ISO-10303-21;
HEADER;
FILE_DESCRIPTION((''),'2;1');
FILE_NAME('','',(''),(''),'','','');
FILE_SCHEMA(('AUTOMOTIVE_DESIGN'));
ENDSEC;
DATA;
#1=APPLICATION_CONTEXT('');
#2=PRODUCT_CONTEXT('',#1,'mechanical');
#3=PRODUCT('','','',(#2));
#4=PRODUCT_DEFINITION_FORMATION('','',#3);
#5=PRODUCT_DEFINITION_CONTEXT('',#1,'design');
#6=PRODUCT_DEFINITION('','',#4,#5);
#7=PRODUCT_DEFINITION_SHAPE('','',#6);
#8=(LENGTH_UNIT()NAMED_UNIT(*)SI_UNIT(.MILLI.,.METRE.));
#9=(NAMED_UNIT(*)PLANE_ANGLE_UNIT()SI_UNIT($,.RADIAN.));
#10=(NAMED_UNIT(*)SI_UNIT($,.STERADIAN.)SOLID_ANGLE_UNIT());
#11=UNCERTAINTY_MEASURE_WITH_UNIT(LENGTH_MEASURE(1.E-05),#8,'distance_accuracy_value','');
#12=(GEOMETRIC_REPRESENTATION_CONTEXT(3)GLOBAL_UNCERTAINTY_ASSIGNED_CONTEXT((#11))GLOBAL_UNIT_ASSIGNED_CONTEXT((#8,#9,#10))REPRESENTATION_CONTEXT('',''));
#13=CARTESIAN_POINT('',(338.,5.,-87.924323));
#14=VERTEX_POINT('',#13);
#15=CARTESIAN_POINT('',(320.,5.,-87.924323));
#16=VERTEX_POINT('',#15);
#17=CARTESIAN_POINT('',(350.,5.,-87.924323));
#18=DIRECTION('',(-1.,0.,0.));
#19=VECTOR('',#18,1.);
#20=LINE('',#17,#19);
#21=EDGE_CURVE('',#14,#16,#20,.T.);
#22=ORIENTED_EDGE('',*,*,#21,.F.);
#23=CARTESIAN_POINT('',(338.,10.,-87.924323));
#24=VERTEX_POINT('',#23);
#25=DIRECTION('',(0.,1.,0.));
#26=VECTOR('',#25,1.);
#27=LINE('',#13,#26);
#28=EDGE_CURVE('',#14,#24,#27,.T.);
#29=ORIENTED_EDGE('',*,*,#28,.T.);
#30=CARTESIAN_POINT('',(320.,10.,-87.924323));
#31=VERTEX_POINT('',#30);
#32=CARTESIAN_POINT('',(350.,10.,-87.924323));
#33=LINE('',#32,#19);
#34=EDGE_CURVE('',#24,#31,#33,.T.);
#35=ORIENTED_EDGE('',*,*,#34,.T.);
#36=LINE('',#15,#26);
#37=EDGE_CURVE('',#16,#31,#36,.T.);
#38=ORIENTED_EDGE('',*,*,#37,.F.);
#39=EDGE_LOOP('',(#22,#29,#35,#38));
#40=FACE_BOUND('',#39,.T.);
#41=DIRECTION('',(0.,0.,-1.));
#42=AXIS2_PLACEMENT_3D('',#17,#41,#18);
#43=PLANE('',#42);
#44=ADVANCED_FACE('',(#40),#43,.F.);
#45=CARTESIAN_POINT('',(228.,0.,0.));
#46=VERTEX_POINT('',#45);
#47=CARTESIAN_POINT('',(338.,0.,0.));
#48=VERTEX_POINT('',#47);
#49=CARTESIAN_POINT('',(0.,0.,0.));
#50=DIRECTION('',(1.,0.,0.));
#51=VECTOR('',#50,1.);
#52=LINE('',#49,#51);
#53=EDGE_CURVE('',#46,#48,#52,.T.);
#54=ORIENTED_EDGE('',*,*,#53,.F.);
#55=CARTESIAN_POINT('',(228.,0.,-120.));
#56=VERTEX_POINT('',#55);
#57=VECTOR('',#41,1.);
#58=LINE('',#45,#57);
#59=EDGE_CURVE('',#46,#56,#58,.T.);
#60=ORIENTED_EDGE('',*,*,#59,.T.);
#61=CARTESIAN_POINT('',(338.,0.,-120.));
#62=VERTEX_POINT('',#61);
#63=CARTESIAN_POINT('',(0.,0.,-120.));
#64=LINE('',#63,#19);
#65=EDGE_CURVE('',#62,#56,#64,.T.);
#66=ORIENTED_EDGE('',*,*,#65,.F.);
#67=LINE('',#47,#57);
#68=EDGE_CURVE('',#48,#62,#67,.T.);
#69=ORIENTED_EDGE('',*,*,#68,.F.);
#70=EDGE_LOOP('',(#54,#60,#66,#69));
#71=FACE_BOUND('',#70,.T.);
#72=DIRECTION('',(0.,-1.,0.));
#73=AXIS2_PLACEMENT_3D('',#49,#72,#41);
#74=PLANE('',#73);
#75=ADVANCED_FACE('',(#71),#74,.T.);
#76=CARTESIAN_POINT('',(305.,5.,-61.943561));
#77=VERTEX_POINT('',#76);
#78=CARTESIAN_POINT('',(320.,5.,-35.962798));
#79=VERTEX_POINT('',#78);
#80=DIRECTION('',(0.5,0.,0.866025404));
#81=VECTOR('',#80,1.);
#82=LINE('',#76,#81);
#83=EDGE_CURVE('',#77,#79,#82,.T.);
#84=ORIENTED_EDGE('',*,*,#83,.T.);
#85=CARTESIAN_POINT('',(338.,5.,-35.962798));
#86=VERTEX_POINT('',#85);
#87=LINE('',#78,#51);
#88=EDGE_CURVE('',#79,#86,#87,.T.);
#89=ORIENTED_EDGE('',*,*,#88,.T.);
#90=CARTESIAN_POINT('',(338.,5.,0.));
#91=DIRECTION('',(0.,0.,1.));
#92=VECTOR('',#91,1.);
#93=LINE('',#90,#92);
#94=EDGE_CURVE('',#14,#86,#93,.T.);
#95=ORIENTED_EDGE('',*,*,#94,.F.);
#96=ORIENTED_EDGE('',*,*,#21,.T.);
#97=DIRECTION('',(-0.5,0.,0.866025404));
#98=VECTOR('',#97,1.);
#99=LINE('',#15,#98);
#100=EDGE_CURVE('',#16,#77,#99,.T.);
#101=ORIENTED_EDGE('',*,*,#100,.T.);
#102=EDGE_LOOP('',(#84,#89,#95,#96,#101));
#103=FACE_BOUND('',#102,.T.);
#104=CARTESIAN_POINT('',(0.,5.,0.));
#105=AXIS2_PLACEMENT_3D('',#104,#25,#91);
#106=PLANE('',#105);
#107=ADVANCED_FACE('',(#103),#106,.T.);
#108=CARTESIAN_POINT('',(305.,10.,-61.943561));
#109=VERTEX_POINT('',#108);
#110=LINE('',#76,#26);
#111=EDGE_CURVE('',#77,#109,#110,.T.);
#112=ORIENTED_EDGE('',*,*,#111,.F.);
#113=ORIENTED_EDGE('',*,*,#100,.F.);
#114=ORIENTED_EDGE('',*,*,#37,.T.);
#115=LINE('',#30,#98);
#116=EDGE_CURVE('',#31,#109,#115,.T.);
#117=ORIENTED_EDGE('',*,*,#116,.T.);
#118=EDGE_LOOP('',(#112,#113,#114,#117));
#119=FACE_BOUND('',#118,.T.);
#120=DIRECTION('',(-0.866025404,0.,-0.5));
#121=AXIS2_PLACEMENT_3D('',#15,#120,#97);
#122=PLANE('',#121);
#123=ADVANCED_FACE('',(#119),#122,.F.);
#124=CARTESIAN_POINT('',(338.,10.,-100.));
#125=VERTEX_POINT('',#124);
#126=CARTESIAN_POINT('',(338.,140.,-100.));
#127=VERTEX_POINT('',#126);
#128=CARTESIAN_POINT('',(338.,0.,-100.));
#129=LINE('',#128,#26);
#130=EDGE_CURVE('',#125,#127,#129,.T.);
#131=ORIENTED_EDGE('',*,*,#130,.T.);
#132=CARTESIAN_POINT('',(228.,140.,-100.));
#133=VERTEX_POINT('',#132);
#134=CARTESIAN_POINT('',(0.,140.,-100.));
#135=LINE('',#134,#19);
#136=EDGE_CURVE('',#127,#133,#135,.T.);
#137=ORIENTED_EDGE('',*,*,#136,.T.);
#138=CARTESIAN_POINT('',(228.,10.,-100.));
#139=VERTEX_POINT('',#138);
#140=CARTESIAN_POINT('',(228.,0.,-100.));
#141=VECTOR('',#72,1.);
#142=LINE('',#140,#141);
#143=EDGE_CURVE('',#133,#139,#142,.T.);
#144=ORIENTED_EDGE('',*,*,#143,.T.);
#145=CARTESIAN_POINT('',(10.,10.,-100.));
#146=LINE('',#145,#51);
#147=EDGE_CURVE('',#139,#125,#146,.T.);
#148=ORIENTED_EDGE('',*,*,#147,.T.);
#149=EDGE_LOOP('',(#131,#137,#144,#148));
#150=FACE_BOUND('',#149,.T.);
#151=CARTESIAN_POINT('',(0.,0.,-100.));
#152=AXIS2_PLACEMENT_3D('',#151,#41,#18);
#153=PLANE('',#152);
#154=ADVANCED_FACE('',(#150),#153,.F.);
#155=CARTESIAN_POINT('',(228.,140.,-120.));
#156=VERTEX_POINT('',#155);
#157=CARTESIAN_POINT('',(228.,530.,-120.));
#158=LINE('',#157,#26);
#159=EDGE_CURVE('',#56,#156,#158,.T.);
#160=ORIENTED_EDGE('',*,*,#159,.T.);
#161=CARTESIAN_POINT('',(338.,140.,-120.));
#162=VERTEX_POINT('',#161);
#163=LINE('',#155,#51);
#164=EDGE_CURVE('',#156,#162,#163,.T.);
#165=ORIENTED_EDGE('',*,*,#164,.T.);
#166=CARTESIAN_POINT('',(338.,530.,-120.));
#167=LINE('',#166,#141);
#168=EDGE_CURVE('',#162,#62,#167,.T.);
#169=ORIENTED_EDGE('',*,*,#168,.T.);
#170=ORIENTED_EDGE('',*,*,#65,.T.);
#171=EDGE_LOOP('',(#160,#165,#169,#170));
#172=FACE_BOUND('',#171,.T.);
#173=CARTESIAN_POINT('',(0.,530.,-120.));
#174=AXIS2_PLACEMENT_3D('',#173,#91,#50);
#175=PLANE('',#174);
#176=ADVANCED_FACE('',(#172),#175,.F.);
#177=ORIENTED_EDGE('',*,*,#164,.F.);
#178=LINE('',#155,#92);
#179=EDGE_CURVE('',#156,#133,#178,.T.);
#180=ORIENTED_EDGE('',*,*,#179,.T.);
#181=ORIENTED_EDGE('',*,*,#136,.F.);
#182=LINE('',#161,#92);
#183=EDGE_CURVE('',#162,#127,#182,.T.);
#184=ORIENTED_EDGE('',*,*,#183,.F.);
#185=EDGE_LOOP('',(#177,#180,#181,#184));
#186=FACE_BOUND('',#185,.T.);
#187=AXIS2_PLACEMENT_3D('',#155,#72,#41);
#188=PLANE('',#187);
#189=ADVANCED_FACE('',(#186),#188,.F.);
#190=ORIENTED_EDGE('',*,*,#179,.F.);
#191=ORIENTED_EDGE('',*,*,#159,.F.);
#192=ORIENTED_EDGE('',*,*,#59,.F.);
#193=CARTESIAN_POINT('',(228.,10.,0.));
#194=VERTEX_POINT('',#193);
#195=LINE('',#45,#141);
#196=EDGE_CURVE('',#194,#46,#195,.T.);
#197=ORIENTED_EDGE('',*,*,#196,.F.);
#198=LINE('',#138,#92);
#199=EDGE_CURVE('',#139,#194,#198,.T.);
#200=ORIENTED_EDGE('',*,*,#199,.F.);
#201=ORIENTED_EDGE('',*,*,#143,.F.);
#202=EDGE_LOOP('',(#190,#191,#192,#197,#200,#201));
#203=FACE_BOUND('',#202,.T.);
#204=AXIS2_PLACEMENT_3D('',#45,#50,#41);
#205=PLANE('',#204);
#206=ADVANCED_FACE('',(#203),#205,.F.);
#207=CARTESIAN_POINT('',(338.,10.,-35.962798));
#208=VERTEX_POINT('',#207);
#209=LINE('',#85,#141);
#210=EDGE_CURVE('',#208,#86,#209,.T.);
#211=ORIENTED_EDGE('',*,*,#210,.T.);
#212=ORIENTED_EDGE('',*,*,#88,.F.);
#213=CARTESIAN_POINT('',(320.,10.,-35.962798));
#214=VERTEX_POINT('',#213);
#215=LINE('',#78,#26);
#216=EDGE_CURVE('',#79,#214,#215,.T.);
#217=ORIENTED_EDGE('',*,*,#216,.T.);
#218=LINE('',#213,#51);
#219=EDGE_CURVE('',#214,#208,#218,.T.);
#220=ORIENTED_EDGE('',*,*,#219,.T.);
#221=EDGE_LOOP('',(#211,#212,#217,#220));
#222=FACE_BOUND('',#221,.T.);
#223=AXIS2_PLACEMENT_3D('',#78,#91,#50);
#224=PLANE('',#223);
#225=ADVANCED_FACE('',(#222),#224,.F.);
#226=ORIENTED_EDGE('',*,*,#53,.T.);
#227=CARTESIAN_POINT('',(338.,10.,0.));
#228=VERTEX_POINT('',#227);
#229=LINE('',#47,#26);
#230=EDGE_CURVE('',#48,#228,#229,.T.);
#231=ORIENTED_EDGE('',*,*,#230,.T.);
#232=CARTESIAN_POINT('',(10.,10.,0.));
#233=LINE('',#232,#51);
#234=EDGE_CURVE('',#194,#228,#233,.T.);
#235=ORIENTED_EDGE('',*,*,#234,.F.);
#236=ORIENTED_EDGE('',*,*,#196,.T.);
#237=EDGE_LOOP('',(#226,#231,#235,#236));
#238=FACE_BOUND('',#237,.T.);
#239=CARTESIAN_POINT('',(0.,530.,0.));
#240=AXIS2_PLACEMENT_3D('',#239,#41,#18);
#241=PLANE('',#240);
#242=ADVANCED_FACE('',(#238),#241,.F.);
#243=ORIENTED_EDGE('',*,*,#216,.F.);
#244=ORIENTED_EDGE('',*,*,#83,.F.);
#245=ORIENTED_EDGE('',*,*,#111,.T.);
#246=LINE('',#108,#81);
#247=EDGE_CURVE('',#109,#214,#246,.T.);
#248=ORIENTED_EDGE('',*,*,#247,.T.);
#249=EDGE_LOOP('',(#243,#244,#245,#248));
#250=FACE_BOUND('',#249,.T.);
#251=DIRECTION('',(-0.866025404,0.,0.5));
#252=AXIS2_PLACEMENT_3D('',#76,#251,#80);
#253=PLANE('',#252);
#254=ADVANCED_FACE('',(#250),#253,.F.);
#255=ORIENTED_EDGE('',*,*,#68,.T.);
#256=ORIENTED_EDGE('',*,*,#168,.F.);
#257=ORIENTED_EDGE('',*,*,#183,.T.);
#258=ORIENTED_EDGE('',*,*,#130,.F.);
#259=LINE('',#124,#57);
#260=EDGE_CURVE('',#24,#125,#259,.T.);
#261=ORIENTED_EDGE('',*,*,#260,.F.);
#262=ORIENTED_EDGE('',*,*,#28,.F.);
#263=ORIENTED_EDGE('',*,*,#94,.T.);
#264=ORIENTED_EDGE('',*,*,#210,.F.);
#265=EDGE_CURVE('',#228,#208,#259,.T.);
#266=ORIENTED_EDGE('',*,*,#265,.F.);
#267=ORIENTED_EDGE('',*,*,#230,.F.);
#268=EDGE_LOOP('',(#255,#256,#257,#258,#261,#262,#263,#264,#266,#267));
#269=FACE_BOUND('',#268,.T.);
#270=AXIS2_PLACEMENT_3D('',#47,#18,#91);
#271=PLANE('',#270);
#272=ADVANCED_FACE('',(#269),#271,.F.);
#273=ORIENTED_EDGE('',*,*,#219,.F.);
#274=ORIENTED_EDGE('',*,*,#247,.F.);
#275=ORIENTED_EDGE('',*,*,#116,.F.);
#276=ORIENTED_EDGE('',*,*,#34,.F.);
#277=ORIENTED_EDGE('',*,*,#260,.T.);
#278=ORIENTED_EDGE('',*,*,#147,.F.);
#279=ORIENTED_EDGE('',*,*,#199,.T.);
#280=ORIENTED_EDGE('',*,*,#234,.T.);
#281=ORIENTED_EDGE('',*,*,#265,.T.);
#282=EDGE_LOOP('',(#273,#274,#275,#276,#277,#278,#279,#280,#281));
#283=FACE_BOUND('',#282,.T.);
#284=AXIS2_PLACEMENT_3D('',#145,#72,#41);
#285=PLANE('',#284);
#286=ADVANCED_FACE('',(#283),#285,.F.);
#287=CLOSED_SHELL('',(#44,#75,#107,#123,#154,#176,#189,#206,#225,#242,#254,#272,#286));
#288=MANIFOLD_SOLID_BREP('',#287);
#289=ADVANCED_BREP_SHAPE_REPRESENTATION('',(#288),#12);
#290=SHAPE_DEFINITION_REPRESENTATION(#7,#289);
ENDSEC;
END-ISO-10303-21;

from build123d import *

# Parameters (mm, degrees)
SKETCH1_W                      = 670
SKETCH1_H                      = 120
BOSS_EXTRUDE1_DEPTH            = 530
SKETCH2_W                      = 100
SKETCH2_H                      = 200
SKETCH2_W_2                    = 650
SKETCH2_H_2                    = 250
CUT_EXTRUDE1_DEPTH             = 100
SKETCH3_R                      = 50
CUT_EXTRUDE2_DEPTH             = 260
F_12_0_12_DIAMETER_HOLE2_D     = 12
F_12_0_12_DIAMETER_HOLE2_DEPTH = 30
F_12_0_12_DIAMETER_HOLE2_TIP   = 3.605163714
SKETCH8_W                      = 650
SKETCH8_H                      = 50
BOSS_EXTRUDE2_DEPTH            = 5
SKETCH9_W                      = 10
SKETCH9_H                      = 250
CUT_EXTRUDE3_DEPTH             = 717
CUT_EXTRUDE4_DEPTH             = 5
SKETCH11_W                     = 10
SKETCH11_H                     = 100
BOSS_EXTRUDE3_DEPTH            = 78
BOSS_EXTRUDE3_2_DEPTH          = 78
BOSS_EXTRUDE3_3_DEPTH          = 78
SKETCH12_W                     = 20
SKETCH12_H                     = 30
CUT_EXTRUDE5_DEPTH             = 80
SKETCH15_W                     = 30
SKETCH15_H                     = 23.536156656
SKETCH15_H_2                   = 28.986603691
CUT_EXTRUDE7_DEPTH             = 35
SHELL1_T                       = -3
SKETCH16_W                     = 14
SKETCH16_H                     = 14
CUT_EXTRUDE8_DEPTH             = 35
SKETCH17_W                     = 5.729882812
SKETCH17_H                     = 17.428393554
SKETCH17_W_2                   = 13.369726562
SKETCH17_H_2                   = 3.342431641
BOSS_EXTRUDE4_DEPTH            = 5
CUT_EXTRUDE10_DEPTH            = 863.670273187
CUT_EXTRUDE10_DEPTH_BACK       = 863.670273187
SKETCH18_W                     = 670
SKETCH18_H                     = 250
CUT_EXTRUDE13_DEPTH            = 737.002717386
CUT_EXTRUDE13_DEPTH_BACK       = 737.002717386
SKETCH19_W                     = 228
SKETCH19_H                     = 280
SKETCH19_W_2                   = 332
CUT_EXTRUDE14_DEPTH            = 451.159971566
CUT_EXTRUDE14_DEPTH_BACK       = 451.159971566
SKETCH20_W                     = 110
SKETCH20_H                     = 140


with BuildPart() as part:
    # Sketch1 → Boss-Extrude1 (new body)
    with BuildSketch(Plane(origin=(0, 0, 0), x_dir=(1, 0, 0), z_dir=(0, 1, 0))):
        with Locations((335, 60)):
            Rectangle(SKETCH1_W, SKETCH1_H)
    extrude(amount=BOSS_EXTRUDE1_DEPTH)

    # Sketch2 → Cut-Extrude1 (cut)
    with BuildSketch(Plane.XY):
        with Locations((60, 380)):
            Rectangle(SKETCH2_W, SKETCH2_H)
        with Locations((170, 380)):
            Rectangle(SKETCH2_W, SKETCH2_H)
        with Locations((280, 380)):
            Rectangle(SKETCH2_W, SKETCH2_H)
        with Locations((390, 380)):
            Rectangle(SKETCH2_W, SKETCH2_H)
        with Locations((500, 380)):
            Rectangle(SKETCH2_W, SKETCH2_H)
        with Locations((610, 380)):
            Rectangle(SKETCH2_W, SKETCH2_H)
        with Locations((335, 135)):
            Rectangle(SKETCH2_W_2, SKETCH2_H_2)
    extrude(amount=-CUT_EXTRUDE1_DEPTH, mode=Mode.SUBTRACT)

    # Sketch3 → Cut-Extrude2 (cut)
    with BuildSketch(Plane(origin=(0, 530, 0), x_dir=(1, 0, 0), z_dir=(0, 1, 0))):
        with Locations((60, 60)):
            Circle(SKETCH3_R)
        with Locations((170, 60)):
            Circle(SKETCH3_R)
        with Locations((280, 60)):
            Circle(SKETCH3_R)
        with Locations((390, 60)):
            Circle(SKETCH3_R)
        with Locations((500, 60)):
            Circle(SKETCH3_R)
        with Locations((610, 60)):
            Circle(SKETCH3_R)
    extrude(amount=-CUT_EXTRUDE2_DEPTH, mode=Mode.SUBTRACT)

    # Ø12.0 (12) Diameter Hole2
    with Locations(Plane(origin=(59.704642413, 270, -102.411697903), x_dir=(0, 0, 1), z_dir=(0, 1, 0))):
        with Locations((0, 0), (-0.195888006, 111.8520513), (0.014838595, 221.167624818), (-0.341843303, 331.364008353), (0.657723149, 441.008646429), (1.288998006, 549.811854685)):
            Hole(F_12_0_12_DIAMETER_HOLE2_D / 2, depth=F_12_0_12_DIAMETER_HOLE2_DEPTH)
            with Locations((0, 0, -(F_12_0_12_DIAMETER_HOLE2_DEPTH + F_12_0_12_DIAMETER_HOLE2_TIP / 2))):  # 118° drill point
                Cone(0, F_12_0_12_DIAMETER_HOLE2_D / 2, F_12_0_12_DIAMETER_HOLE2_TIP, mode=Mode.SUBTRACT)

    # Sketch8 → Boss-Extrude2 (add)
    with BuildSketch(Plane.XY):
        with Locations((335, 305)):
            Rectangle(SKETCH8_W, SKETCH8_H)
    extrude(amount=-BOSS_EXTRUDE2_DEPTH)

    # Sketch9 → Cut-Extrude3 (cut)
    with BuildSketch(Plane(origin=(670, 0, 0), x_dir=(0, 0, -1), z_dir=(1, 0, 0))):
        with Locations((15, 135)):
            Rectangle(SKETCH9_W, SKETCH9_H)
    extrude(amount=-CUT_EXTRUDE3_DEPTH, mode=Mode.SUBTRACT)

    # Sketch10 → Cut-Extrude4 (cut)
    with BuildSketch(Plane(origin=(0, 10, 0), x_dir=(1, 0, 0), z_dir=(0, 1, 0))):
        Polygon((365, 61.943560596), (350, 87.924322709), (320, 87.924322709), (305, 61.943560596), (320, 35.962798482), (350, 35.962798482), align=None)
    extrude(amount=-CUT_EXTRUDE4_DEPTH, mode=Mode.SUBTRACT)

    # Sketch12 → Cut-Extrude5 (cut)
    with BuildSketch(Plane.XY.offset(-100)):
        with Locations((85.198613037, 245)):
            Rectangle(SKETCH12_W, SKETCH12_H)
        with Locations((195.198613037, 245)):
            Rectangle(SKETCH12_W, SKETCH12_H)
        with Locations((305.198613037, 245)):
            Rectangle(SKETCH12_W, SKETCH12_H)
        with Locations((415.198613037, 245)):
            Rectangle(SKETCH12_W, SKETCH12_H)
        with Locations((525.198613037, 245)):
            Rectangle(SKETCH12_W, SKETCH12_H)
        with Locations((635.198613037, 245)):
            Rectangle(SKETCH12_W, SKETCH12_H)
    extrude(amount=-CUT_EXTRUDE5_DEPTH, mode=Mode.SUBTRACT)

    # Sketch17 → Boss-Extrude4 (add)
    # profile 1 of 9: a face of its own
    with BuildSketch(Plane.XY):
        with BuildLine():
            Line((527.508830928, 289.835452458), (527.508830928, 307.263846012))
            Line((527.508830928, 307.263846012), (534.861434459, 307.263846012))
            add(Edge.make_bspline(
                [(534.861434459, 307.263846012), (535.181337774, 307.258256848), (535.803061116, 307.24739446), (536.703508491, 307.139069344), (537.544992916, 306.975202489), (538.325061607, 306.737496792), (539.040841948, 306.426020155), (539.698044515, 306.051894954), (540.290333057, 305.605079277), (540.822348212, 305.090232636), (541.284521701, 304.502523111), (541.692171296, 303.852565801), (542.030284458, 303.129762281), (542.309377095, 302.341316546), (542.5243908, 301.484161689), (542.679660381, 300.560045938), (542.773357357, 299.567500804), (542.783368073, 298.883107022), (542.788518428, 298.530997273)],
                knots=[0, 0, 0, 0, 1.135059408, 2.20595691, 3.214417064, 4.174978569, 5.094187092, 5.980001006, 6.853065862, 7.720814779, 8.600404634, 9.50058483, 10.438414914, 11.426825708, 12.465239141, 13.571113463, 14.750376389, 16, 16, 16, 16], degree=3))
            add(Edge.make_bspline(
                [(542.788518428, 298.530997273), (542.781740751, 298.180151665), (542.768592871, 297.499553336), (542.676885992, 296.511518461), (542.516733301, 295.591080531), (542.296748778, 294.736450427), (542.003051046, 293.953120444), (541.654236167, 293.233205539), (541.233025793, 292.585291498), (540.753136904, 292.000029304), (540.204772188, 291.484681411), (539.587651059, 291.044279297), (538.910779309, 290.668464036), (538.169670382, 290.361903209), (537.364073889, 290.124869172), (536.495133477, 289.954199984), (535.562644449, 289.853487388), (534.920131033, 289.841584621), (534.58911581, 289.835452458)],
                knots=[0, 0, 0, 0, 1.228418252, 2.382983832, 3.470276728, 4.496757894, 5.468023682, 6.394867725, 7.292157164, 8.167372942, 9.039072913, 9.918728341, 10.815246345, 11.744296628, 12.720973084, 13.750736166, 14.841206188, 16, 16, 16, 16], degree=3))
            Line((534.58911581, 289.835452458), (527.508830928, 289.835452458))
        make_face()
        with BuildLine():
            Line((533.238713741, 291.745413395), (534.048208904, 291.745413395))
            add(Edge.make_bspline(
                [(534.048208904, 291.745413395), (534.172894012, 291.749291978), (534.413033311, 291.756761998), (534.758676231, 291.825976613), (535.075745017, 291.938271137), (535.365749176, 292.094802589), (535.623404602, 292.300450923), (535.848862806, 292.551404902), (536.04776914, 292.844737637), (536.217685755, 293.190205032), (536.364284647, 293.596533622), (536.481764702, 294.076367921), (536.592118304, 294.630928744), (536.673672739, 295.265507643), (536.740044562, 295.978448886), (536.788346679, 296.768428292), (536.812018936, 297.636801208), (536.817188964, 298.241258393), (536.819890499, 298.55711002)],
                knots=[0, 0, 0, 0, 0.728710832, 1.403472396, 2.052289494, 2.690292559, 3.321919393, 3.970736491, 4.656696891, 5.388631723, 6.217040872, 7.17856157, 8.275589967, 9.523440737, 10.918935818, 12.463926104, 14.152268318, 16, 16, 16, 16], degree=3))
            add(Edge.make_bspline(
                [(536.819890499, 298.55711002), (536.8171426, 298.871715251), (536.811863063, 299.476166083), (536.7886758, 300.343334385), (536.739579947, 301.133216935), (536.674703848, 301.843934916), (536.589660404, 302.476324031), (536.488366458, 303.031681737), (536.362441588, 303.507627045), (536.222158727, 303.914921549), (536.050140993, 304.256514038), (535.858357073, 304.554097881), (535.62547107, 304.79746827), (535.36991257, 305.004888479), (535.079348843, 305.160875844), (534.761320266, 305.273944358), (534.414185903, 305.34216807), (534.172870641, 305.349893944), (534.048208904, 305.353885075)],
                knots=[0, 0, 0, 0, 1.842836665, 3.540640921, 5.080358154, 6.47765669, 7.719902824, 8.816971715, 9.781579111, 10.601733135, 11.334613876, 12.017393917, 12.666641099, 13.29908421, 13.937911793, 14.587567384, 15.270347425, 16, 16, 16, 16], degree=3))
            Line((534.048208904, 305.353885075), (533.238713741, 305.353885075))
            Line((533.238713741, 305.353885075), (533.238713741, 291.745413395))
        make_face(mode=Mode.SUBTRACT)
    # profile 2 of 9: a face of its own
    with BuildSketch(Plane.XY):
        with Locations((547.563420772, 298.549649235)):
            Rectangle(SKETCH17_W, SKETCH17_H)
    # profile 3 of 9: a face of its own
    with BuildSketch(Plane.XY):
        Polygon((564.514324092, 307.263846012), (564.514324092, 305.115139958), (558.545696163, 305.115139958), (558.545696163, 299.862747379), (563.559343624, 299.862747379), (563.559343624, 297.714041325), (558.545696163, 297.714041325), (558.545696163, 289.835452458), (552.81581335, 289.835452458), (552.81581335, 307.263846012), align=None)
    # profile 4 of 9: a face of its own
    with BuildSketch(Plane.XY):
        Polygon((577.645305538, 307.263846012), (577.645305538, 305.115139958), (571.676677608, 305.115139958), (571.676677608, 299.862747379), (576.690325069, 299.862747379), (576.690325069, 297.714041325), (571.676677608, 297.714041325), (571.676677608, 289.835452458), (565.946794795, 289.835452458), (565.946794795, 307.263846012), align=None)
    # profile 5 of 9: a face of its own
    with BuildSketch(Plane.XY):
        with Locations((584.330168819, 287.448001286)):
            Rectangle(SKETCH17_W_2, SKETCH17_H_2)
    # profile 6 of 9: a face of its own
    with BuildSketch(Plane.XY):
        with BuildLine():
            Line((605.578484249, 307.263846012), (605.578484249, 295.602639195))
            add(Edge.make_bspline(
                [(605.578484249, 295.602639195), (605.574209777, 295.35989389), (605.565919345, 294.889083964), (605.480877158, 294.20653885), (605.349958188, 293.569747554), (605.15926554, 292.978838165), (604.911867049, 292.436847071), (604.616163877, 291.936663973), (604.260702644, 291.487723021), (603.847299908, 291.08966617), (603.386881991, 290.731670113), (602.867295001, 290.425440037), (602.293741958, 290.168488385), (601.66690529, 289.960990771), (600.988052682, 289.797299786), (600.254912883, 289.679078851), (599.467035781, 289.60781007), (598.923618241, 289.60048219), (598.643684673, 289.59670734)],
                knots=[0, 0, 0, 0, 1.108173197, 2.149326602, 3.136215123, 4.073726706, 4.978516626, 5.852185058, 6.72141202, 7.584905625, 8.467554395, 9.379216169, 10.332422268, 11.332766067, 12.390653242, 13.518530507, 14.721707419, 16, 16, 16, 16], degree=3))
            add(Edge.make_bspline(
                [(598.643684673, 289.59670734), (598.373688491, 289.600411437), (597.851346557, 289.607577482), (597.093280473, 289.679448684), (596.387523889, 289.797736542), (595.733050135, 289.960122315), (595.130189942, 290.169220301), (594.579048171, 290.42623041), (594.078350789, 290.732835498), (593.633858028, 291.090104794), (593.234289459, 291.486851767), (592.899913678, 291.940746827), (592.609043638, 292.435866034), (592.375223767, 292.980322997), (592.191754821, 293.570441519), (592.063541006, 294.20666921), (591.983676196, 294.889343196), (591.974661767, 295.359932437), (591.970012569, 295.602639195)],
                knots=[0, 0, 0, 0, 1.258901956, 2.435505865, 3.547148904, 4.59359074, 5.576649289, 6.5183682, 7.424469602, 8.307507093, 9.172751023, 10.042627298, 10.928839176, 11.845659241, 12.799442865, 13.80597989, 14.868432463, 16, 16, 16, 16], degree=3))
            Line((591.970012569, 295.602639195), (591.970012569, 307.263846012))
            Line((591.970012569, 307.263846012), (597.699895381, 307.263846012))
            Line((597.699895381, 307.263846012), (597.699895381, 295.457153889))
            add(Edge.make_bspline(
                [(597.699895381, 295.457153889), (597.700816195, 295.287996189), (597.702584578, 294.963135903), (597.729908723, 294.499051493), (597.768241004, 294.079064133), (597.828226169, 293.705517832), (597.90066041, 293.377063412), (597.989882091, 293.09281535), (598.094998068, 292.852496478), (598.225239063, 292.654232043), (598.380826623, 292.495135011), (598.55368342, 292.353231761), (598.757556996, 292.238543846), (598.987648905, 292.146224908), (599.243380948, 292.070549638), (599.526120553, 292.020376099), (599.83553351, 291.990763905), (600.049971942, 291.986424568), (600.161954402, 291.984158512)],
                knots=[0, 0, 0, 0, 1.622370975, 3.115695595, 4.458049099, 5.666011203, 6.742434742, 7.681714947, 8.519814998, 9.250928664, 9.942747364, 10.646898194, 11.389596108, 12.175933929, 13.021386247, 13.943159715, 14.925891993, 16, 16, 16, 16], degree=3))
            add(Edge.make_bspline(
                [(600.161954402, 291.984158512), (600.283927219, 291.987190593), (600.521124756, 291.993087005), (600.86597014, 292.03390861), (601.187714881, 292.103380086), (601.484890424, 292.205377303), (601.758665297, 292.332852529), (602.012761516, 292.484567923), (602.236391413, 292.674631152), (602.439076761, 292.888441291), (602.620738276, 293.128529789), (602.771757722, 293.399928575), (602.905501548, 293.697121508), (603.005823683, 294.025060118), (603.089837826, 294.379999499), (603.146989706, 294.763086929), (603.186210275, 295.174074524), (603.189394751, 295.457053988), (603.191033077, 295.602639195)],
                knots=[0, 0, 0, 0, 1.083870311, 2.107775948, 3.08105344, 4.003637981, 4.893545291, 5.761570557, 6.624657808, 7.49233129, 8.376387281, 9.291996285, 10.246843261, 11.267344133, 12.334180325, 13.486053461, 14.706643157, 16, 16, 16, 16], degree=3))
            Line((603.191033077, 295.602639195), (603.191033077, 307.263846012))
            Line((603.191033077, 307.263846012), (605.578484249, 307.263846012))
        make_face()
    # profile 7 of 9: a face of its own
    with BuildSketch(Plane.XY):
        with BuildLine():
            Line((619.731593227, 302.015183827), (616.739818477, 301.526502415))
            add(Edge.make_bspline(
                [(616.739818477, 301.526502415), (616.748849224, 301.670726223), (616.765660669, 301.939210177), (616.78429066, 302.312269209), (616.796668381, 302.625642376), (616.798628236, 302.814722915), (616.799504756, 302.899286839)],
                knots=[0, 0, 0, 0, 1.261802504, 2.348944521, 3.261585937, 4, 4, 4, 4], degree=3))
            add(Edge.make_bspline(
                [(616.799504756, 302.899286839), (616.798306068, 303.007660677), (616.795968139, 303.219033721), (616.750451916, 303.523894877), (616.694806916, 303.811547356), (616.604352699, 304.076787391), (616.488181329, 304.320314265), (616.348943917, 304.543955606), (616.184187178, 304.745078709), (615.995833421, 304.928129987), (615.778009957, 305.083200131), (615.536269472, 305.218702836), (615.269765326, 305.333844758), (614.978065514, 305.431346685), (614.660683072, 305.504624438), (614.319025281, 305.556776695), (613.952471696, 305.585673441), (613.699597795, 305.590260771), (613.568984889, 305.592630192)],
                knots=[0, 0, 0, 0, 1.079280541, 2.105035848, 3.067950317, 3.99715044, 4.889989748, 5.753421302, 6.617030865, 7.476358039, 8.364190572, 9.274590025, 10.235106994, 11.254473582, 12.337095886, 13.478601727, 14.697662529, 16, 16, 16, 16], degree=3))
            add(Edge.make_bspline(
                [(613.568984889, 305.592630192), (613.391954632, 305.58912286), (613.059112606, 305.582528579), (612.595688488, 305.495339748), (612.198743126, 305.361419257), (611.87165349, 305.163811893), (611.613188167, 304.909795747), (611.433841092, 304.593316589), (611.323009072, 304.224665915), (611.313400221, 303.959558324), (611.308367061, 303.820693775)],
                knots=[0, 0, 0, 0, 1.294917039, 2.43462794, 3.440028966, 4.347597256, 5.210608309, 6.06356377, 6.985685997, 8, 8, 8, 8], degree=3))
            add(Edge.make_bspline(
                [(611.308367061, 303.820693775), (611.317562032, 303.705133219), (611.336106628, 303.472068433), (611.47315858, 303.132808312), (611.695999602, 302.811560885), (612.009295906, 302.510664216), (612.404107796, 302.221967273), (612.884407504, 301.948533431), (613.450813789, 301.688189695), (613.862519081, 301.536023727), (614.080048656, 301.455624958)],
                knots=[0, 0, 0, 0, 0.716839541, 1.445735977, 2.240793036, 3.131329288, 4.131129903, 5.273471266, 6.559404876, 8, 8, 8, 8], degree=3))
            add(Edge.make_bspline(
                [(614.080048656, 301.455624958), (614.335934702, 301.364918412), (614.834564244, 301.188164095), (615.547657928, 300.88707802), (616.213068388, 300.5749594), (616.829579094, 300.246613346), (617.397833174, 299.90520698), (617.914851624, 299.544556457), (618.386199073, 299.173962102), (618.807001026, 298.783874588), (619.177995113, 298.378100064), (619.4958685, 297.952745357), (619.771807525, 297.51723103), (619.991113975, 297.061458502), (620.169645242, 296.594624218), (620.292698657, 296.11024444), (620.364288243, 295.609761088), (620.37516617, 295.270864226), (620.380681514, 295.099036213)],
                knots=[0, 0, 0, 0, 1.359488612, 2.649152603, 3.874964776, 5.039588756, 6.146130126, 7.193090393, 8.194917302, 9.146793662, 10.063845301, 10.944476293, 11.803344532, 12.641736646, 13.473440096, 14.302714936, 15.139439897, 16, 16, 16, 16], degree=3))
            add(Edge.make_bspline(
                [(620.380681514, 295.099036213), (620.374476075, 294.902306495), (620.362285176, 294.515820995), (620.280160209, 293.948630617), (620.138011896, 293.409496554), (619.938489338, 292.895972278), (619.681049879, 292.411946655), (619.366518754, 291.954381076), (618.996510229, 291.525099427), (618.5710008, 291.128381035), (618.102222518, 290.765302239), (617.587803957, 290.450854345), (617.034458515, 290.187092261), (616.444107988, 289.968993032), (615.81453624, 289.801373099), (615.145337453, 289.685291013), (614.438790193, 289.606619894), (613.954683001, 289.600062276), (613.70700941, 289.59670734)],
                knots=[0, 0, 0, 0, 0.972121714, 1.909782367, 2.824924061, 3.721832975, 4.62620438, 5.527836938, 6.46026819, 7.421000932, 8.398101015, 9.385579713, 10.394244048, 11.422703992, 12.491421888, 13.608778581, 14.776629625, 16, 16, 16, 16], degree=3))
            add(Edge.make_bspline(
                [(613.70700941, 289.59670734), (613.445745367, 289.599650312), (612.939893069, 289.605348413), (612.207608113, 289.66709241), (611.525297432, 289.760984454), (610.893395078, 289.899706116), (610.309273131, 290.072394336), (609.776099392, 290.288320955), (609.295310255, 290.547303481), (608.863217672, 290.843007892), (608.478306623, 291.175775461), (608.148120946, 291.551766865), (607.86942369, 291.967163224), (607.639947144, 292.421521488), (607.466477665, 292.917583541), (607.339164663, 293.449829748), (607.264537999, 294.021332449), (607.254747521, 294.414908557), (607.249700069, 294.617815586)],
                knots=[0, 0, 0, 0, 1.342201143, 2.598733168, 3.773451092, 4.878874364, 5.91991243, 6.900006476, 7.829142054, 8.72062616, 9.585588575, 10.436728592, 11.283829734, 12.149664931, 13.044964919, 13.977937424, 14.957531465, 16, 16, 16, 16], degree=3))
            add(Edge.make_bspline(
                [(607.249700069, 294.617815586), (607.250803815, 294.692425759), (607.253213998, 294.855347393), (607.260452266, 295.122772538), (607.275636683, 295.433682216), (607.29037174, 295.656130545), (607.298195171, 295.774237248)],
                knots=[0, 0, 0, 0, 0.773500207, 1.689044709, 2.77302154, 4, 4, 4, 4], degree=3))
            Line((607.298195171, 295.774237248), (610.36457777, 296.337526509))
            add(Edge.make_bspline(
                [(610.36457777, 296.337526509), (610.326952988, 296.136337493), (610.255606535, 295.754830366), (610.178678473, 295.21219969), (610.124206629, 294.733311493), (610.11767002, 294.435147371), (610.114641475, 294.297001835)],
                knots=[0, 0, 0, 0, 1.192988372, 2.262218769, 3.194850416, 4, 4, 4, 4], degree=3))
            add(Edge.make_bspline(
                [(610.114641475, 294.297001835), (610.116191817, 294.183708768), (610.119182568, 293.965156219), (610.159053378, 293.648552813), (610.215988606, 293.352999663), (610.302906772, 293.079707227), (610.411206928, 292.826307836), (610.544682453, 292.59538211), (610.704385489, 292.386485019), (610.887496571, 292.200099922), (611.094689168, 292.033628705), (611.327456494, 291.892756696), (611.58347653, 291.771733922), (611.864681562, 291.677479524), (612.167961721, 291.596080628), (612.497219749, 291.548235723), (612.849461228, 291.512043782), (613.092629543, 291.508500084), (613.218327999, 291.506668278)],
                knots=[0, 0, 0, 0, 1.135776692, 2.191015738, 3.19649269, 4.151244236, 5.061952528, 5.956281389, 6.819534407, 7.692823504, 8.571441916, 9.478554956, 10.416037156, 11.406231466, 12.450054172, 13.561596327, 14.739541482, 16, 16, 16, 16], degree=3))
            add(Edge.make_bspline(
                [(613.218327999, 291.506668278), (613.423996012, 291.510791273), (613.810619321, 291.518541853), (614.349272542, 291.616708407), (614.810575885, 291.768742445), (615.189785268, 291.991387532), (615.490778961, 292.278756613), (615.698005174, 292.637320004), (615.824813318, 293.05638326), (615.837728413, 293.355975238), (615.844524288, 293.513619419)],
                knots=[0, 0, 0, 0, 1.308765556, 2.460272085, 3.475015317, 4.388076298, 5.239673503, 6.095681635, 6.997954785, 8, 8, 8, 8], degree=3))
            add(Edge.make_bspline(
                [(615.844524288, 293.513619419), (615.833808824, 293.638242951), (615.811807312, 293.894126055), (615.644884004, 294.264515838), (615.382382362, 294.620631473), (615.016807277, 294.962984909), (614.551376589, 295.293471235), (613.986957743, 295.616730224), (613.322148235, 295.933112033), (612.83677959, 296.119639164), (612.580430889, 296.21815395)],
                knots=[0, 0, 0, 0, 0.667930748, 1.371427933, 2.146459016, 3.034714139, 4.04893387, 5.207327294, 6.525042705, 8, 8, 8, 8], degree=3))
            add(Edge.make_bspline(
                [(612.580430889, 296.21815395), (612.374354345, 296.29679374), (611.970646869, 296.450850434), (611.394079385, 296.713586304), (610.853066711, 296.987016804), (610.357486361, 297.288235735), (609.896382561, 297.599610528), (609.477036946, 297.932256792), (609.09841673, 298.284556341), (608.758710772, 298.653375077), (608.457302107, 299.038989264), (608.199448649, 299.444659231), (607.977533299, 299.866789834), (607.798609588, 300.308107488), (607.65975715, 300.767821241), (607.559616231, 301.244439392), (607.497905054, 301.739995674), (607.491630423, 302.075933546), (607.488445186, 302.246468159)],
                knots=[0, 0, 0, 0, 1.249558333, 2.447906163, 3.58867143, 4.682264114, 5.731748367, 6.739728761, 7.711906036, 8.659384707, 9.578321416, 10.481344598, 11.379544271, 12.277135726, 13.175418307, 14.097160112, 15.034047388, 16, 16, 16, 16], degree=3))
            add(Edge.make_bspline(
                [(607.488445186, 302.246468159), (607.49282555, 302.439538736), (607.501402184, 302.817565692), (607.587451154, 303.36980586), (607.719291893, 303.894921371), (607.910558542, 304.389343064), (608.156192894, 304.852853762), (608.453187669, 305.288766511), (608.804241719, 305.697593471), (609.213503754, 306.066686531), (609.657214714, 306.407618241), (610.14376173, 306.697651931), (610.658716537, 306.950861947), (611.210636666, 307.148827868), (611.791820619, 307.313252612), (612.408080529, 307.421140415), (613.056315391, 307.490701612), (613.499160755, 307.498567824), (613.725661373, 307.502591129)],
                knots=[0, 0, 0, 0, 1.01033566, 1.978209831, 2.919499157, 3.840961976, 4.746855014, 5.660740114, 6.597989116, 7.56120833, 8.541877795, 9.523498025, 10.522416858, 11.542172371, 12.589598349, 13.681636521, 14.814234488, 16, 16, 16, 16], degree=3))
            add(Edge.make_bspline(
                [(613.725661373, 307.502591129), (613.968269855, 307.498219033), (614.438190994, 307.489750488), (615.120391152, 307.426787419), (615.755073228, 307.319142339), (616.345153155, 307.171557286), (616.887304575, 306.977590666), (617.384933999, 306.742393454), (617.834452216, 306.46201507), (618.236961315, 306.139451502), (618.593086714, 305.773322851), (618.897467704, 305.361641069), (619.158701245, 304.909408454), (619.366684143, 304.412232174), (619.529870326, 303.873247147), (619.649133834, 303.29158184), (619.720420497, 302.667301443), (619.72779778, 302.236712324), (619.731593227, 302.015183827)],
                knots=[0, 0, 0, 0, 1.248314423, 2.417925914, 3.521398822, 4.558068205, 5.543720209, 6.479599284, 7.385061127, 8.263440163, 9.127722873, 10.00561236, 10.891325273, 11.808802823, 12.772251995, 13.784947978, 14.860405143, 16, 16, 16, 16], degree=3))
        make_face()
    # profile 8 of 9: a face of its own
    with BuildSketch(Plane.XY):
        Polygon((633.989153194, 307.263846012), (633.989153194, 305.115139958), (628.020525264, 305.115139958), (628.020525264, 300.340237614), (633.034172725, 300.340237614), (633.034172725, 298.191531559), (628.020525264, 298.191531559), (628.020525264, 291.984158512), (634.944133663, 291.984158512), (634.944133663, 289.835452458), (622.290642452, 289.835452458), (622.290642452, 307.263846012), align=None)
    # profile 9 of 9: a face of its own
    with BuildSketch(Plane.XY):
        with BuildLine():
            Line((636.376604366, 289.835452458), (636.376604366, 307.263846012))
            Line((636.376604366, 307.263846012), (643.990335369, 307.263846012))
            add(Edge.make_bspline(
                [(643.990335369, 307.263846012), (644.237946498, 307.261150834), (644.721600887, 307.25588639), (645.426490561, 307.189203683), (646.094808274, 307.090496236), (646.724915796, 306.949857504), (647.317873659, 306.767252686), (647.871119087, 306.542146), (648.390701058, 306.282329135), (648.864494846, 305.976472528), (649.295093616, 305.642889252), (649.669668547, 305.279483604), (649.990389523, 304.894749072), (650.250664962, 304.483256345), (650.454275633, 304.048690948), (650.59581384, 303.587791605), (650.684089268, 303.104102537), (650.695510601, 302.772834174), (650.701311397, 302.604585835)],
                knots=[0, 0, 0, 0, 1.303269877, 2.545653735, 3.724355284, 4.8584284, 5.941462088, 6.987020715, 8.000098032, 8.995332524, 9.951400474, 10.863507538, 11.737823931, 12.582415999, 13.420128714, 14.25671499, 15.114600608, 16, 16, 16, 16], degree=3))
            add(Edge.make_bspline(
                [(650.701311397, 302.604585835), (650.698282873, 302.472674957), (650.692382063, 302.215658276), (650.651041486, 301.838684287), (650.580643818, 301.480313933), (650.481036683, 301.139915259), (650.347814833, 300.820175594), (650.191279492, 300.517863507), (650.009772227, 300.230553342), (649.788675198, 299.970497982), (649.548268341, 299.722842359), (649.274558803, 299.497116911), (648.974487035, 299.288655528), (648.642526299, 299.104010513), (648.287619671, 298.928055749), (647.899038177, 298.784921972), (647.486819978, 298.644749395), (647.19793098, 298.577036306), (647.049257183, 298.54218845)],
                knots=[0, 0, 0, 0, 1.057156483, 2.059775939, 3.035078039, 3.981068617, 4.897189472, 5.80650904, 6.70770952, 7.613691521, 8.536886357, 9.470937334, 10.45233069, 11.461024139, 12.51295332, 13.623444893, 14.776929983, 16, 16, 16, 16], degree=3))
            add(Edge.make_bspline(
                [(647.049257183, 298.54218845), (647.19164695, 298.499279419), (647.467865022, 298.416041346), (647.856360945, 298.265600017), (648.211652989, 298.111536308), (648.524185739, 297.936781388), (648.807636894, 297.762122504), (649.047122259, 297.564301324), (649.255235567, 297.361673563), (649.425188343, 297.135464734), (649.570253643, 296.882344437), (649.694827156, 296.586596707), (649.815179167, 296.247423665), (649.917667348, 295.859098311), (650.004750555, 295.423699276), (650.088222437, 294.944027189), (650.153853601, 294.416024546), (650.187587341, 294.048412906), (650.2051692, 293.856815525)],
                knots=[0, 0, 0, 0, 1.149282524, 2.229462177, 3.219229774, 4.139917433, 4.995948464, 5.788695735, 6.536448429, 7.236319808, 7.968460079, 8.78645307, 9.713791991, 10.749194692, 11.887975363, 13.146018663, 14.512518948, 16, 16, 16, 16], degree=3))
            add(Edge.make_bspline(
                [(650.2051692, 293.856815525), (650.225980287, 293.627849833), (650.265975604, 293.187817268), (650.348933081, 292.554613589), (650.44386163, 291.974357025), (650.555874504, 291.44528724), (650.681301216, 290.967898855), (650.821280597, 290.540469593), (650.979920039, 290.165788217), (651.10484481, 289.941461656), (651.163880062, 289.835452458)],
                knots=[0, 0, 0, 0, 1.324580516, 2.545615266, 3.678710841, 4.711533017, 5.660403917, 6.521349952, 7.301239649, 8, 8, 8, 8], degree=3))
            Line((651.163880062, 289.835452458), (645.213904094, 289.835452458))
            add(Edge.make_bspline(
                [(645.213904094, 289.835452458), (645.12229736, 290.069847279), (644.935171241, 290.548648246), (644.7595281, 291.319414791), (644.64846922, 292.142514735), (644.635117598, 292.70994511), (644.628232479, 293.002555653)],
                knots=[0, 0, 0, 0, 0.930410518, 1.900560147, 2.917368081, 4, 4, 4, 4], degree=3))
            Line((644.628232479, 293.002555653), (644.605850124, 294.002300831))
            Line((644.605850124, 294.002300831), (644.579737377, 295.266903874))
            add(Edge.make_bspline(
                [(644.579737377, 295.266903874), (644.573694669, 295.477395004), (644.562357007, 295.872330118), (644.469348432, 296.426164013), (644.30178735, 296.894645884), (644.073222546, 297.287223005), (643.766741442, 297.590613479), (643.39104803, 297.804152917), (642.950456912, 297.93396284), (642.634664848, 297.946292392), (642.468335247, 297.952786442)],
                knots=[0, 0, 0, 0, 1.295300309, 2.430314163, 3.439929415, 4.342995669, 5.203512789, 6.060756153, 6.978588463, 8, 8, 8, 8], degree=3))
            Line((642.468335247, 297.952786442), (642.106487178, 297.952786442))
            Line((642.106487178, 297.952786442), (642.106487178, 289.835452458))
            Line((642.106487178, 289.835452458), (636.376604366, 289.835452458))
        make_face()
        with BuildLine():
            Line((642.106487178, 299.862747379), (642.617550945, 299.862747379))
            add(Edge.make_bspline(
                [(642.617550945, 299.862747379), (642.722054451, 299.865172716), (642.925280724, 299.869889229), (643.220054897, 299.898289891), (643.494111408, 299.951809873), (643.749840966, 300.021017819), (643.984372137, 300.114851792), (644.200147241, 300.225818296), (644.391160406, 300.362685327), (644.565327067, 300.516342321), (644.718148635, 300.691986294), (644.850351299, 300.889034217), (644.961199162, 301.106225057), (645.056078491, 301.342818683), (645.125883912, 301.600830857), (645.173262731, 301.879472914), (645.203404658, 302.177423605), (645.207875435, 302.383174491), (645.210173702, 302.488943669)],
                knots=[0, 0, 0, 0, 1.184986479, 2.304423995, 3.352332712, 4.347714965, 5.303263624, 6.211353909, 7.091434645, 7.960150225, 8.839440182, 9.723126897, 10.64371617, 11.599264829, 12.608232147, 13.667459739, 14.800924404, 16, 16, 16, 16], degree=3))
            add(Edge.make_bspline(
                [(645.210173702, 302.488943669), (645.207875435, 302.594712847), (645.203404658, 302.800463732), (645.173262731, 303.098414423), (645.125883912, 303.37705648), (645.056078491, 303.635068654), (644.961199162, 303.87166228), (644.850351299, 304.08885312), (644.718148635, 304.285901043), (644.565327067, 304.461545017), (644.391160406, 304.61520201), (644.200147241, 304.752069041), (643.984372137, 304.863035546), (643.749840966, 304.956869518), (643.494111408, 305.026077464), (643.220054897, 305.079597446), (642.925280724, 305.107998108), (642.722054451, 305.112714621), (642.617550945, 305.115139958)],
                knots=[0, 0, 0, 0, 1.199075596, 2.332540261, 3.391767853, 4.400735171, 5.35628383, 6.276873103, 7.160559818, 8.039849775, 8.908565355, 9.788646091, 10.696736376, 11.652285035, 12.647667288, 13.695576005, 14.815013521, 16, 16, 16, 16], degree=3))
            Line((642.617550945, 305.115139958), (642.106487178, 305.115139958))
            Line((642.106487178, 305.115139958), (642.106487178, 299.862747379))
        make_face(mode=Mode.SUBTRACT)
    extrude(amount=BOSS_EXTRUDE4_DEPTH)

    # Sketch18 → Cut-Extrude10 (cut, two sides: drawn at the far end of the back side and taken through both)
    with BuildSketch(Plane.XY.offset(-CUT_EXTRUDE10_DEPTH_BACK)):
        with Locations((335, 405)):
            Rectangle(SKETCH18_W, SKETCH18_H)
    extrude(amount=CUT_EXTRUDE10_DEPTH + CUT_EXTRUDE10_DEPTH_BACK, mode=Mode.SUBTRACT)

    # Sketch19 → Cut-Extrude13 (cut, two sides: drawn at the far end of the back side and taken through both)
    with BuildSketch(Plane(origin=(0, 0, -120), x_dir=(-1, 0, 0), z_dir=(0, 0, -1)).offset(-CUT_EXTRUDE13_DEPTH_BACK)):
        with Locations((-114, 140)):
            Rectangle(SKETCH19_W, SKETCH19_H)
        with Locations((-504, 140)):
            Rectangle(SKETCH19_W_2, SKETCH19_H)
    extrude(amount=CUT_EXTRUDE13_DEPTH + CUT_EXTRUDE13_DEPTH_BACK, mode=Mode.SUBTRACT)

    # Sketch20 → Cut-Extrude14 (cut, two sides: drawn at the far end of the back side and taken through both)
    with BuildSketch(Plane.XY.offset(-100).offset(-CUT_EXTRUDE14_DEPTH_BACK)):
        with Locations((283, 210)):
            Rectangle(SKETCH20_W, SKETCH20_H)
    extrude(amount=CUT_EXTRUDE14_DEPTH + CUT_EXTRUDE14_DEPTH_BACK, mode=Mode.SUBTRACT)


with BuildPart() as body_2:
    # Sketch11 → Boss-Extrude3 (new body)
    with BuildSketch(Plane.XY.offset(-100)):
        with Locations((255, 60)):
            Rectangle(SKETCH11_W, SKETCH11_H)
    extrude(amount=BOSS_EXTRUDE3_DEPTH)


with BuildPart() as body_3:
    # Sketch11 → Boss-Extrude3 2 (new body)
    with BuildSketch(Plane.XY.offset(-100)):
        with Locations((415, 60)):
            Rectangle(SKETCH11_W, SKETCH11_H)
    extrude(amount=BOSS_EXTRUDE3_2_DEPTH)


with BuildPart() as body_4:
    # Sketch11 → Boss-Extrude3 3 (new body)
    with BuildSketch(Plane.XY.offset(-100)):
        Polygon((25, 198.45686471), (325, 145.558770497), (325, 122.01775856), (345, 122.01775856), (345, 145.558770497), (645, 198.45686471), align=None)
    extrude(amount=BOSS_EXTRUDE3_3_DEPTH)

    # Sketch15 → Cut-Extrude7 (cut)
    with BuildSketch(Plane(origin=(345, 0, 0), x_dir=(0, 0, -1), z_dir=(1, 0, 0))):
        with Locations((35, 133.231921672)):
            Rectangle(SKETCH15_W, SKETCH15_H)
        with Locations((85, 130.506698154)):
            Rectangle(SKETCH15_W, SKETCH15_H_2)
    extrude(amount=-CUT_EXTRUDE7_DEPTH, mode=Mode.SUBTRACT)

    # Shell1
    shell1_openings = [body_4.faces().sort_by_distance(p)[0] for p in [
        (335, 198.45686471, -61),
    ]]
    offset(amount=SHELL1_T, openings=shell1_openings, kind=Kind.INTERSECTION)

    # Sketch16 → Cut-Extrude8 (cut)
    with BuildSketch(Plane.XZ.offset(-122.01775856)):
        with Locations((335, -60)):
            Rectangle(SKETCH16_W, SKETCH16_H)
    extrude(amount=-CUT_EXTRUDE8_DEPTH, mode=Mode.SUBTRACT)


solid = part.part
